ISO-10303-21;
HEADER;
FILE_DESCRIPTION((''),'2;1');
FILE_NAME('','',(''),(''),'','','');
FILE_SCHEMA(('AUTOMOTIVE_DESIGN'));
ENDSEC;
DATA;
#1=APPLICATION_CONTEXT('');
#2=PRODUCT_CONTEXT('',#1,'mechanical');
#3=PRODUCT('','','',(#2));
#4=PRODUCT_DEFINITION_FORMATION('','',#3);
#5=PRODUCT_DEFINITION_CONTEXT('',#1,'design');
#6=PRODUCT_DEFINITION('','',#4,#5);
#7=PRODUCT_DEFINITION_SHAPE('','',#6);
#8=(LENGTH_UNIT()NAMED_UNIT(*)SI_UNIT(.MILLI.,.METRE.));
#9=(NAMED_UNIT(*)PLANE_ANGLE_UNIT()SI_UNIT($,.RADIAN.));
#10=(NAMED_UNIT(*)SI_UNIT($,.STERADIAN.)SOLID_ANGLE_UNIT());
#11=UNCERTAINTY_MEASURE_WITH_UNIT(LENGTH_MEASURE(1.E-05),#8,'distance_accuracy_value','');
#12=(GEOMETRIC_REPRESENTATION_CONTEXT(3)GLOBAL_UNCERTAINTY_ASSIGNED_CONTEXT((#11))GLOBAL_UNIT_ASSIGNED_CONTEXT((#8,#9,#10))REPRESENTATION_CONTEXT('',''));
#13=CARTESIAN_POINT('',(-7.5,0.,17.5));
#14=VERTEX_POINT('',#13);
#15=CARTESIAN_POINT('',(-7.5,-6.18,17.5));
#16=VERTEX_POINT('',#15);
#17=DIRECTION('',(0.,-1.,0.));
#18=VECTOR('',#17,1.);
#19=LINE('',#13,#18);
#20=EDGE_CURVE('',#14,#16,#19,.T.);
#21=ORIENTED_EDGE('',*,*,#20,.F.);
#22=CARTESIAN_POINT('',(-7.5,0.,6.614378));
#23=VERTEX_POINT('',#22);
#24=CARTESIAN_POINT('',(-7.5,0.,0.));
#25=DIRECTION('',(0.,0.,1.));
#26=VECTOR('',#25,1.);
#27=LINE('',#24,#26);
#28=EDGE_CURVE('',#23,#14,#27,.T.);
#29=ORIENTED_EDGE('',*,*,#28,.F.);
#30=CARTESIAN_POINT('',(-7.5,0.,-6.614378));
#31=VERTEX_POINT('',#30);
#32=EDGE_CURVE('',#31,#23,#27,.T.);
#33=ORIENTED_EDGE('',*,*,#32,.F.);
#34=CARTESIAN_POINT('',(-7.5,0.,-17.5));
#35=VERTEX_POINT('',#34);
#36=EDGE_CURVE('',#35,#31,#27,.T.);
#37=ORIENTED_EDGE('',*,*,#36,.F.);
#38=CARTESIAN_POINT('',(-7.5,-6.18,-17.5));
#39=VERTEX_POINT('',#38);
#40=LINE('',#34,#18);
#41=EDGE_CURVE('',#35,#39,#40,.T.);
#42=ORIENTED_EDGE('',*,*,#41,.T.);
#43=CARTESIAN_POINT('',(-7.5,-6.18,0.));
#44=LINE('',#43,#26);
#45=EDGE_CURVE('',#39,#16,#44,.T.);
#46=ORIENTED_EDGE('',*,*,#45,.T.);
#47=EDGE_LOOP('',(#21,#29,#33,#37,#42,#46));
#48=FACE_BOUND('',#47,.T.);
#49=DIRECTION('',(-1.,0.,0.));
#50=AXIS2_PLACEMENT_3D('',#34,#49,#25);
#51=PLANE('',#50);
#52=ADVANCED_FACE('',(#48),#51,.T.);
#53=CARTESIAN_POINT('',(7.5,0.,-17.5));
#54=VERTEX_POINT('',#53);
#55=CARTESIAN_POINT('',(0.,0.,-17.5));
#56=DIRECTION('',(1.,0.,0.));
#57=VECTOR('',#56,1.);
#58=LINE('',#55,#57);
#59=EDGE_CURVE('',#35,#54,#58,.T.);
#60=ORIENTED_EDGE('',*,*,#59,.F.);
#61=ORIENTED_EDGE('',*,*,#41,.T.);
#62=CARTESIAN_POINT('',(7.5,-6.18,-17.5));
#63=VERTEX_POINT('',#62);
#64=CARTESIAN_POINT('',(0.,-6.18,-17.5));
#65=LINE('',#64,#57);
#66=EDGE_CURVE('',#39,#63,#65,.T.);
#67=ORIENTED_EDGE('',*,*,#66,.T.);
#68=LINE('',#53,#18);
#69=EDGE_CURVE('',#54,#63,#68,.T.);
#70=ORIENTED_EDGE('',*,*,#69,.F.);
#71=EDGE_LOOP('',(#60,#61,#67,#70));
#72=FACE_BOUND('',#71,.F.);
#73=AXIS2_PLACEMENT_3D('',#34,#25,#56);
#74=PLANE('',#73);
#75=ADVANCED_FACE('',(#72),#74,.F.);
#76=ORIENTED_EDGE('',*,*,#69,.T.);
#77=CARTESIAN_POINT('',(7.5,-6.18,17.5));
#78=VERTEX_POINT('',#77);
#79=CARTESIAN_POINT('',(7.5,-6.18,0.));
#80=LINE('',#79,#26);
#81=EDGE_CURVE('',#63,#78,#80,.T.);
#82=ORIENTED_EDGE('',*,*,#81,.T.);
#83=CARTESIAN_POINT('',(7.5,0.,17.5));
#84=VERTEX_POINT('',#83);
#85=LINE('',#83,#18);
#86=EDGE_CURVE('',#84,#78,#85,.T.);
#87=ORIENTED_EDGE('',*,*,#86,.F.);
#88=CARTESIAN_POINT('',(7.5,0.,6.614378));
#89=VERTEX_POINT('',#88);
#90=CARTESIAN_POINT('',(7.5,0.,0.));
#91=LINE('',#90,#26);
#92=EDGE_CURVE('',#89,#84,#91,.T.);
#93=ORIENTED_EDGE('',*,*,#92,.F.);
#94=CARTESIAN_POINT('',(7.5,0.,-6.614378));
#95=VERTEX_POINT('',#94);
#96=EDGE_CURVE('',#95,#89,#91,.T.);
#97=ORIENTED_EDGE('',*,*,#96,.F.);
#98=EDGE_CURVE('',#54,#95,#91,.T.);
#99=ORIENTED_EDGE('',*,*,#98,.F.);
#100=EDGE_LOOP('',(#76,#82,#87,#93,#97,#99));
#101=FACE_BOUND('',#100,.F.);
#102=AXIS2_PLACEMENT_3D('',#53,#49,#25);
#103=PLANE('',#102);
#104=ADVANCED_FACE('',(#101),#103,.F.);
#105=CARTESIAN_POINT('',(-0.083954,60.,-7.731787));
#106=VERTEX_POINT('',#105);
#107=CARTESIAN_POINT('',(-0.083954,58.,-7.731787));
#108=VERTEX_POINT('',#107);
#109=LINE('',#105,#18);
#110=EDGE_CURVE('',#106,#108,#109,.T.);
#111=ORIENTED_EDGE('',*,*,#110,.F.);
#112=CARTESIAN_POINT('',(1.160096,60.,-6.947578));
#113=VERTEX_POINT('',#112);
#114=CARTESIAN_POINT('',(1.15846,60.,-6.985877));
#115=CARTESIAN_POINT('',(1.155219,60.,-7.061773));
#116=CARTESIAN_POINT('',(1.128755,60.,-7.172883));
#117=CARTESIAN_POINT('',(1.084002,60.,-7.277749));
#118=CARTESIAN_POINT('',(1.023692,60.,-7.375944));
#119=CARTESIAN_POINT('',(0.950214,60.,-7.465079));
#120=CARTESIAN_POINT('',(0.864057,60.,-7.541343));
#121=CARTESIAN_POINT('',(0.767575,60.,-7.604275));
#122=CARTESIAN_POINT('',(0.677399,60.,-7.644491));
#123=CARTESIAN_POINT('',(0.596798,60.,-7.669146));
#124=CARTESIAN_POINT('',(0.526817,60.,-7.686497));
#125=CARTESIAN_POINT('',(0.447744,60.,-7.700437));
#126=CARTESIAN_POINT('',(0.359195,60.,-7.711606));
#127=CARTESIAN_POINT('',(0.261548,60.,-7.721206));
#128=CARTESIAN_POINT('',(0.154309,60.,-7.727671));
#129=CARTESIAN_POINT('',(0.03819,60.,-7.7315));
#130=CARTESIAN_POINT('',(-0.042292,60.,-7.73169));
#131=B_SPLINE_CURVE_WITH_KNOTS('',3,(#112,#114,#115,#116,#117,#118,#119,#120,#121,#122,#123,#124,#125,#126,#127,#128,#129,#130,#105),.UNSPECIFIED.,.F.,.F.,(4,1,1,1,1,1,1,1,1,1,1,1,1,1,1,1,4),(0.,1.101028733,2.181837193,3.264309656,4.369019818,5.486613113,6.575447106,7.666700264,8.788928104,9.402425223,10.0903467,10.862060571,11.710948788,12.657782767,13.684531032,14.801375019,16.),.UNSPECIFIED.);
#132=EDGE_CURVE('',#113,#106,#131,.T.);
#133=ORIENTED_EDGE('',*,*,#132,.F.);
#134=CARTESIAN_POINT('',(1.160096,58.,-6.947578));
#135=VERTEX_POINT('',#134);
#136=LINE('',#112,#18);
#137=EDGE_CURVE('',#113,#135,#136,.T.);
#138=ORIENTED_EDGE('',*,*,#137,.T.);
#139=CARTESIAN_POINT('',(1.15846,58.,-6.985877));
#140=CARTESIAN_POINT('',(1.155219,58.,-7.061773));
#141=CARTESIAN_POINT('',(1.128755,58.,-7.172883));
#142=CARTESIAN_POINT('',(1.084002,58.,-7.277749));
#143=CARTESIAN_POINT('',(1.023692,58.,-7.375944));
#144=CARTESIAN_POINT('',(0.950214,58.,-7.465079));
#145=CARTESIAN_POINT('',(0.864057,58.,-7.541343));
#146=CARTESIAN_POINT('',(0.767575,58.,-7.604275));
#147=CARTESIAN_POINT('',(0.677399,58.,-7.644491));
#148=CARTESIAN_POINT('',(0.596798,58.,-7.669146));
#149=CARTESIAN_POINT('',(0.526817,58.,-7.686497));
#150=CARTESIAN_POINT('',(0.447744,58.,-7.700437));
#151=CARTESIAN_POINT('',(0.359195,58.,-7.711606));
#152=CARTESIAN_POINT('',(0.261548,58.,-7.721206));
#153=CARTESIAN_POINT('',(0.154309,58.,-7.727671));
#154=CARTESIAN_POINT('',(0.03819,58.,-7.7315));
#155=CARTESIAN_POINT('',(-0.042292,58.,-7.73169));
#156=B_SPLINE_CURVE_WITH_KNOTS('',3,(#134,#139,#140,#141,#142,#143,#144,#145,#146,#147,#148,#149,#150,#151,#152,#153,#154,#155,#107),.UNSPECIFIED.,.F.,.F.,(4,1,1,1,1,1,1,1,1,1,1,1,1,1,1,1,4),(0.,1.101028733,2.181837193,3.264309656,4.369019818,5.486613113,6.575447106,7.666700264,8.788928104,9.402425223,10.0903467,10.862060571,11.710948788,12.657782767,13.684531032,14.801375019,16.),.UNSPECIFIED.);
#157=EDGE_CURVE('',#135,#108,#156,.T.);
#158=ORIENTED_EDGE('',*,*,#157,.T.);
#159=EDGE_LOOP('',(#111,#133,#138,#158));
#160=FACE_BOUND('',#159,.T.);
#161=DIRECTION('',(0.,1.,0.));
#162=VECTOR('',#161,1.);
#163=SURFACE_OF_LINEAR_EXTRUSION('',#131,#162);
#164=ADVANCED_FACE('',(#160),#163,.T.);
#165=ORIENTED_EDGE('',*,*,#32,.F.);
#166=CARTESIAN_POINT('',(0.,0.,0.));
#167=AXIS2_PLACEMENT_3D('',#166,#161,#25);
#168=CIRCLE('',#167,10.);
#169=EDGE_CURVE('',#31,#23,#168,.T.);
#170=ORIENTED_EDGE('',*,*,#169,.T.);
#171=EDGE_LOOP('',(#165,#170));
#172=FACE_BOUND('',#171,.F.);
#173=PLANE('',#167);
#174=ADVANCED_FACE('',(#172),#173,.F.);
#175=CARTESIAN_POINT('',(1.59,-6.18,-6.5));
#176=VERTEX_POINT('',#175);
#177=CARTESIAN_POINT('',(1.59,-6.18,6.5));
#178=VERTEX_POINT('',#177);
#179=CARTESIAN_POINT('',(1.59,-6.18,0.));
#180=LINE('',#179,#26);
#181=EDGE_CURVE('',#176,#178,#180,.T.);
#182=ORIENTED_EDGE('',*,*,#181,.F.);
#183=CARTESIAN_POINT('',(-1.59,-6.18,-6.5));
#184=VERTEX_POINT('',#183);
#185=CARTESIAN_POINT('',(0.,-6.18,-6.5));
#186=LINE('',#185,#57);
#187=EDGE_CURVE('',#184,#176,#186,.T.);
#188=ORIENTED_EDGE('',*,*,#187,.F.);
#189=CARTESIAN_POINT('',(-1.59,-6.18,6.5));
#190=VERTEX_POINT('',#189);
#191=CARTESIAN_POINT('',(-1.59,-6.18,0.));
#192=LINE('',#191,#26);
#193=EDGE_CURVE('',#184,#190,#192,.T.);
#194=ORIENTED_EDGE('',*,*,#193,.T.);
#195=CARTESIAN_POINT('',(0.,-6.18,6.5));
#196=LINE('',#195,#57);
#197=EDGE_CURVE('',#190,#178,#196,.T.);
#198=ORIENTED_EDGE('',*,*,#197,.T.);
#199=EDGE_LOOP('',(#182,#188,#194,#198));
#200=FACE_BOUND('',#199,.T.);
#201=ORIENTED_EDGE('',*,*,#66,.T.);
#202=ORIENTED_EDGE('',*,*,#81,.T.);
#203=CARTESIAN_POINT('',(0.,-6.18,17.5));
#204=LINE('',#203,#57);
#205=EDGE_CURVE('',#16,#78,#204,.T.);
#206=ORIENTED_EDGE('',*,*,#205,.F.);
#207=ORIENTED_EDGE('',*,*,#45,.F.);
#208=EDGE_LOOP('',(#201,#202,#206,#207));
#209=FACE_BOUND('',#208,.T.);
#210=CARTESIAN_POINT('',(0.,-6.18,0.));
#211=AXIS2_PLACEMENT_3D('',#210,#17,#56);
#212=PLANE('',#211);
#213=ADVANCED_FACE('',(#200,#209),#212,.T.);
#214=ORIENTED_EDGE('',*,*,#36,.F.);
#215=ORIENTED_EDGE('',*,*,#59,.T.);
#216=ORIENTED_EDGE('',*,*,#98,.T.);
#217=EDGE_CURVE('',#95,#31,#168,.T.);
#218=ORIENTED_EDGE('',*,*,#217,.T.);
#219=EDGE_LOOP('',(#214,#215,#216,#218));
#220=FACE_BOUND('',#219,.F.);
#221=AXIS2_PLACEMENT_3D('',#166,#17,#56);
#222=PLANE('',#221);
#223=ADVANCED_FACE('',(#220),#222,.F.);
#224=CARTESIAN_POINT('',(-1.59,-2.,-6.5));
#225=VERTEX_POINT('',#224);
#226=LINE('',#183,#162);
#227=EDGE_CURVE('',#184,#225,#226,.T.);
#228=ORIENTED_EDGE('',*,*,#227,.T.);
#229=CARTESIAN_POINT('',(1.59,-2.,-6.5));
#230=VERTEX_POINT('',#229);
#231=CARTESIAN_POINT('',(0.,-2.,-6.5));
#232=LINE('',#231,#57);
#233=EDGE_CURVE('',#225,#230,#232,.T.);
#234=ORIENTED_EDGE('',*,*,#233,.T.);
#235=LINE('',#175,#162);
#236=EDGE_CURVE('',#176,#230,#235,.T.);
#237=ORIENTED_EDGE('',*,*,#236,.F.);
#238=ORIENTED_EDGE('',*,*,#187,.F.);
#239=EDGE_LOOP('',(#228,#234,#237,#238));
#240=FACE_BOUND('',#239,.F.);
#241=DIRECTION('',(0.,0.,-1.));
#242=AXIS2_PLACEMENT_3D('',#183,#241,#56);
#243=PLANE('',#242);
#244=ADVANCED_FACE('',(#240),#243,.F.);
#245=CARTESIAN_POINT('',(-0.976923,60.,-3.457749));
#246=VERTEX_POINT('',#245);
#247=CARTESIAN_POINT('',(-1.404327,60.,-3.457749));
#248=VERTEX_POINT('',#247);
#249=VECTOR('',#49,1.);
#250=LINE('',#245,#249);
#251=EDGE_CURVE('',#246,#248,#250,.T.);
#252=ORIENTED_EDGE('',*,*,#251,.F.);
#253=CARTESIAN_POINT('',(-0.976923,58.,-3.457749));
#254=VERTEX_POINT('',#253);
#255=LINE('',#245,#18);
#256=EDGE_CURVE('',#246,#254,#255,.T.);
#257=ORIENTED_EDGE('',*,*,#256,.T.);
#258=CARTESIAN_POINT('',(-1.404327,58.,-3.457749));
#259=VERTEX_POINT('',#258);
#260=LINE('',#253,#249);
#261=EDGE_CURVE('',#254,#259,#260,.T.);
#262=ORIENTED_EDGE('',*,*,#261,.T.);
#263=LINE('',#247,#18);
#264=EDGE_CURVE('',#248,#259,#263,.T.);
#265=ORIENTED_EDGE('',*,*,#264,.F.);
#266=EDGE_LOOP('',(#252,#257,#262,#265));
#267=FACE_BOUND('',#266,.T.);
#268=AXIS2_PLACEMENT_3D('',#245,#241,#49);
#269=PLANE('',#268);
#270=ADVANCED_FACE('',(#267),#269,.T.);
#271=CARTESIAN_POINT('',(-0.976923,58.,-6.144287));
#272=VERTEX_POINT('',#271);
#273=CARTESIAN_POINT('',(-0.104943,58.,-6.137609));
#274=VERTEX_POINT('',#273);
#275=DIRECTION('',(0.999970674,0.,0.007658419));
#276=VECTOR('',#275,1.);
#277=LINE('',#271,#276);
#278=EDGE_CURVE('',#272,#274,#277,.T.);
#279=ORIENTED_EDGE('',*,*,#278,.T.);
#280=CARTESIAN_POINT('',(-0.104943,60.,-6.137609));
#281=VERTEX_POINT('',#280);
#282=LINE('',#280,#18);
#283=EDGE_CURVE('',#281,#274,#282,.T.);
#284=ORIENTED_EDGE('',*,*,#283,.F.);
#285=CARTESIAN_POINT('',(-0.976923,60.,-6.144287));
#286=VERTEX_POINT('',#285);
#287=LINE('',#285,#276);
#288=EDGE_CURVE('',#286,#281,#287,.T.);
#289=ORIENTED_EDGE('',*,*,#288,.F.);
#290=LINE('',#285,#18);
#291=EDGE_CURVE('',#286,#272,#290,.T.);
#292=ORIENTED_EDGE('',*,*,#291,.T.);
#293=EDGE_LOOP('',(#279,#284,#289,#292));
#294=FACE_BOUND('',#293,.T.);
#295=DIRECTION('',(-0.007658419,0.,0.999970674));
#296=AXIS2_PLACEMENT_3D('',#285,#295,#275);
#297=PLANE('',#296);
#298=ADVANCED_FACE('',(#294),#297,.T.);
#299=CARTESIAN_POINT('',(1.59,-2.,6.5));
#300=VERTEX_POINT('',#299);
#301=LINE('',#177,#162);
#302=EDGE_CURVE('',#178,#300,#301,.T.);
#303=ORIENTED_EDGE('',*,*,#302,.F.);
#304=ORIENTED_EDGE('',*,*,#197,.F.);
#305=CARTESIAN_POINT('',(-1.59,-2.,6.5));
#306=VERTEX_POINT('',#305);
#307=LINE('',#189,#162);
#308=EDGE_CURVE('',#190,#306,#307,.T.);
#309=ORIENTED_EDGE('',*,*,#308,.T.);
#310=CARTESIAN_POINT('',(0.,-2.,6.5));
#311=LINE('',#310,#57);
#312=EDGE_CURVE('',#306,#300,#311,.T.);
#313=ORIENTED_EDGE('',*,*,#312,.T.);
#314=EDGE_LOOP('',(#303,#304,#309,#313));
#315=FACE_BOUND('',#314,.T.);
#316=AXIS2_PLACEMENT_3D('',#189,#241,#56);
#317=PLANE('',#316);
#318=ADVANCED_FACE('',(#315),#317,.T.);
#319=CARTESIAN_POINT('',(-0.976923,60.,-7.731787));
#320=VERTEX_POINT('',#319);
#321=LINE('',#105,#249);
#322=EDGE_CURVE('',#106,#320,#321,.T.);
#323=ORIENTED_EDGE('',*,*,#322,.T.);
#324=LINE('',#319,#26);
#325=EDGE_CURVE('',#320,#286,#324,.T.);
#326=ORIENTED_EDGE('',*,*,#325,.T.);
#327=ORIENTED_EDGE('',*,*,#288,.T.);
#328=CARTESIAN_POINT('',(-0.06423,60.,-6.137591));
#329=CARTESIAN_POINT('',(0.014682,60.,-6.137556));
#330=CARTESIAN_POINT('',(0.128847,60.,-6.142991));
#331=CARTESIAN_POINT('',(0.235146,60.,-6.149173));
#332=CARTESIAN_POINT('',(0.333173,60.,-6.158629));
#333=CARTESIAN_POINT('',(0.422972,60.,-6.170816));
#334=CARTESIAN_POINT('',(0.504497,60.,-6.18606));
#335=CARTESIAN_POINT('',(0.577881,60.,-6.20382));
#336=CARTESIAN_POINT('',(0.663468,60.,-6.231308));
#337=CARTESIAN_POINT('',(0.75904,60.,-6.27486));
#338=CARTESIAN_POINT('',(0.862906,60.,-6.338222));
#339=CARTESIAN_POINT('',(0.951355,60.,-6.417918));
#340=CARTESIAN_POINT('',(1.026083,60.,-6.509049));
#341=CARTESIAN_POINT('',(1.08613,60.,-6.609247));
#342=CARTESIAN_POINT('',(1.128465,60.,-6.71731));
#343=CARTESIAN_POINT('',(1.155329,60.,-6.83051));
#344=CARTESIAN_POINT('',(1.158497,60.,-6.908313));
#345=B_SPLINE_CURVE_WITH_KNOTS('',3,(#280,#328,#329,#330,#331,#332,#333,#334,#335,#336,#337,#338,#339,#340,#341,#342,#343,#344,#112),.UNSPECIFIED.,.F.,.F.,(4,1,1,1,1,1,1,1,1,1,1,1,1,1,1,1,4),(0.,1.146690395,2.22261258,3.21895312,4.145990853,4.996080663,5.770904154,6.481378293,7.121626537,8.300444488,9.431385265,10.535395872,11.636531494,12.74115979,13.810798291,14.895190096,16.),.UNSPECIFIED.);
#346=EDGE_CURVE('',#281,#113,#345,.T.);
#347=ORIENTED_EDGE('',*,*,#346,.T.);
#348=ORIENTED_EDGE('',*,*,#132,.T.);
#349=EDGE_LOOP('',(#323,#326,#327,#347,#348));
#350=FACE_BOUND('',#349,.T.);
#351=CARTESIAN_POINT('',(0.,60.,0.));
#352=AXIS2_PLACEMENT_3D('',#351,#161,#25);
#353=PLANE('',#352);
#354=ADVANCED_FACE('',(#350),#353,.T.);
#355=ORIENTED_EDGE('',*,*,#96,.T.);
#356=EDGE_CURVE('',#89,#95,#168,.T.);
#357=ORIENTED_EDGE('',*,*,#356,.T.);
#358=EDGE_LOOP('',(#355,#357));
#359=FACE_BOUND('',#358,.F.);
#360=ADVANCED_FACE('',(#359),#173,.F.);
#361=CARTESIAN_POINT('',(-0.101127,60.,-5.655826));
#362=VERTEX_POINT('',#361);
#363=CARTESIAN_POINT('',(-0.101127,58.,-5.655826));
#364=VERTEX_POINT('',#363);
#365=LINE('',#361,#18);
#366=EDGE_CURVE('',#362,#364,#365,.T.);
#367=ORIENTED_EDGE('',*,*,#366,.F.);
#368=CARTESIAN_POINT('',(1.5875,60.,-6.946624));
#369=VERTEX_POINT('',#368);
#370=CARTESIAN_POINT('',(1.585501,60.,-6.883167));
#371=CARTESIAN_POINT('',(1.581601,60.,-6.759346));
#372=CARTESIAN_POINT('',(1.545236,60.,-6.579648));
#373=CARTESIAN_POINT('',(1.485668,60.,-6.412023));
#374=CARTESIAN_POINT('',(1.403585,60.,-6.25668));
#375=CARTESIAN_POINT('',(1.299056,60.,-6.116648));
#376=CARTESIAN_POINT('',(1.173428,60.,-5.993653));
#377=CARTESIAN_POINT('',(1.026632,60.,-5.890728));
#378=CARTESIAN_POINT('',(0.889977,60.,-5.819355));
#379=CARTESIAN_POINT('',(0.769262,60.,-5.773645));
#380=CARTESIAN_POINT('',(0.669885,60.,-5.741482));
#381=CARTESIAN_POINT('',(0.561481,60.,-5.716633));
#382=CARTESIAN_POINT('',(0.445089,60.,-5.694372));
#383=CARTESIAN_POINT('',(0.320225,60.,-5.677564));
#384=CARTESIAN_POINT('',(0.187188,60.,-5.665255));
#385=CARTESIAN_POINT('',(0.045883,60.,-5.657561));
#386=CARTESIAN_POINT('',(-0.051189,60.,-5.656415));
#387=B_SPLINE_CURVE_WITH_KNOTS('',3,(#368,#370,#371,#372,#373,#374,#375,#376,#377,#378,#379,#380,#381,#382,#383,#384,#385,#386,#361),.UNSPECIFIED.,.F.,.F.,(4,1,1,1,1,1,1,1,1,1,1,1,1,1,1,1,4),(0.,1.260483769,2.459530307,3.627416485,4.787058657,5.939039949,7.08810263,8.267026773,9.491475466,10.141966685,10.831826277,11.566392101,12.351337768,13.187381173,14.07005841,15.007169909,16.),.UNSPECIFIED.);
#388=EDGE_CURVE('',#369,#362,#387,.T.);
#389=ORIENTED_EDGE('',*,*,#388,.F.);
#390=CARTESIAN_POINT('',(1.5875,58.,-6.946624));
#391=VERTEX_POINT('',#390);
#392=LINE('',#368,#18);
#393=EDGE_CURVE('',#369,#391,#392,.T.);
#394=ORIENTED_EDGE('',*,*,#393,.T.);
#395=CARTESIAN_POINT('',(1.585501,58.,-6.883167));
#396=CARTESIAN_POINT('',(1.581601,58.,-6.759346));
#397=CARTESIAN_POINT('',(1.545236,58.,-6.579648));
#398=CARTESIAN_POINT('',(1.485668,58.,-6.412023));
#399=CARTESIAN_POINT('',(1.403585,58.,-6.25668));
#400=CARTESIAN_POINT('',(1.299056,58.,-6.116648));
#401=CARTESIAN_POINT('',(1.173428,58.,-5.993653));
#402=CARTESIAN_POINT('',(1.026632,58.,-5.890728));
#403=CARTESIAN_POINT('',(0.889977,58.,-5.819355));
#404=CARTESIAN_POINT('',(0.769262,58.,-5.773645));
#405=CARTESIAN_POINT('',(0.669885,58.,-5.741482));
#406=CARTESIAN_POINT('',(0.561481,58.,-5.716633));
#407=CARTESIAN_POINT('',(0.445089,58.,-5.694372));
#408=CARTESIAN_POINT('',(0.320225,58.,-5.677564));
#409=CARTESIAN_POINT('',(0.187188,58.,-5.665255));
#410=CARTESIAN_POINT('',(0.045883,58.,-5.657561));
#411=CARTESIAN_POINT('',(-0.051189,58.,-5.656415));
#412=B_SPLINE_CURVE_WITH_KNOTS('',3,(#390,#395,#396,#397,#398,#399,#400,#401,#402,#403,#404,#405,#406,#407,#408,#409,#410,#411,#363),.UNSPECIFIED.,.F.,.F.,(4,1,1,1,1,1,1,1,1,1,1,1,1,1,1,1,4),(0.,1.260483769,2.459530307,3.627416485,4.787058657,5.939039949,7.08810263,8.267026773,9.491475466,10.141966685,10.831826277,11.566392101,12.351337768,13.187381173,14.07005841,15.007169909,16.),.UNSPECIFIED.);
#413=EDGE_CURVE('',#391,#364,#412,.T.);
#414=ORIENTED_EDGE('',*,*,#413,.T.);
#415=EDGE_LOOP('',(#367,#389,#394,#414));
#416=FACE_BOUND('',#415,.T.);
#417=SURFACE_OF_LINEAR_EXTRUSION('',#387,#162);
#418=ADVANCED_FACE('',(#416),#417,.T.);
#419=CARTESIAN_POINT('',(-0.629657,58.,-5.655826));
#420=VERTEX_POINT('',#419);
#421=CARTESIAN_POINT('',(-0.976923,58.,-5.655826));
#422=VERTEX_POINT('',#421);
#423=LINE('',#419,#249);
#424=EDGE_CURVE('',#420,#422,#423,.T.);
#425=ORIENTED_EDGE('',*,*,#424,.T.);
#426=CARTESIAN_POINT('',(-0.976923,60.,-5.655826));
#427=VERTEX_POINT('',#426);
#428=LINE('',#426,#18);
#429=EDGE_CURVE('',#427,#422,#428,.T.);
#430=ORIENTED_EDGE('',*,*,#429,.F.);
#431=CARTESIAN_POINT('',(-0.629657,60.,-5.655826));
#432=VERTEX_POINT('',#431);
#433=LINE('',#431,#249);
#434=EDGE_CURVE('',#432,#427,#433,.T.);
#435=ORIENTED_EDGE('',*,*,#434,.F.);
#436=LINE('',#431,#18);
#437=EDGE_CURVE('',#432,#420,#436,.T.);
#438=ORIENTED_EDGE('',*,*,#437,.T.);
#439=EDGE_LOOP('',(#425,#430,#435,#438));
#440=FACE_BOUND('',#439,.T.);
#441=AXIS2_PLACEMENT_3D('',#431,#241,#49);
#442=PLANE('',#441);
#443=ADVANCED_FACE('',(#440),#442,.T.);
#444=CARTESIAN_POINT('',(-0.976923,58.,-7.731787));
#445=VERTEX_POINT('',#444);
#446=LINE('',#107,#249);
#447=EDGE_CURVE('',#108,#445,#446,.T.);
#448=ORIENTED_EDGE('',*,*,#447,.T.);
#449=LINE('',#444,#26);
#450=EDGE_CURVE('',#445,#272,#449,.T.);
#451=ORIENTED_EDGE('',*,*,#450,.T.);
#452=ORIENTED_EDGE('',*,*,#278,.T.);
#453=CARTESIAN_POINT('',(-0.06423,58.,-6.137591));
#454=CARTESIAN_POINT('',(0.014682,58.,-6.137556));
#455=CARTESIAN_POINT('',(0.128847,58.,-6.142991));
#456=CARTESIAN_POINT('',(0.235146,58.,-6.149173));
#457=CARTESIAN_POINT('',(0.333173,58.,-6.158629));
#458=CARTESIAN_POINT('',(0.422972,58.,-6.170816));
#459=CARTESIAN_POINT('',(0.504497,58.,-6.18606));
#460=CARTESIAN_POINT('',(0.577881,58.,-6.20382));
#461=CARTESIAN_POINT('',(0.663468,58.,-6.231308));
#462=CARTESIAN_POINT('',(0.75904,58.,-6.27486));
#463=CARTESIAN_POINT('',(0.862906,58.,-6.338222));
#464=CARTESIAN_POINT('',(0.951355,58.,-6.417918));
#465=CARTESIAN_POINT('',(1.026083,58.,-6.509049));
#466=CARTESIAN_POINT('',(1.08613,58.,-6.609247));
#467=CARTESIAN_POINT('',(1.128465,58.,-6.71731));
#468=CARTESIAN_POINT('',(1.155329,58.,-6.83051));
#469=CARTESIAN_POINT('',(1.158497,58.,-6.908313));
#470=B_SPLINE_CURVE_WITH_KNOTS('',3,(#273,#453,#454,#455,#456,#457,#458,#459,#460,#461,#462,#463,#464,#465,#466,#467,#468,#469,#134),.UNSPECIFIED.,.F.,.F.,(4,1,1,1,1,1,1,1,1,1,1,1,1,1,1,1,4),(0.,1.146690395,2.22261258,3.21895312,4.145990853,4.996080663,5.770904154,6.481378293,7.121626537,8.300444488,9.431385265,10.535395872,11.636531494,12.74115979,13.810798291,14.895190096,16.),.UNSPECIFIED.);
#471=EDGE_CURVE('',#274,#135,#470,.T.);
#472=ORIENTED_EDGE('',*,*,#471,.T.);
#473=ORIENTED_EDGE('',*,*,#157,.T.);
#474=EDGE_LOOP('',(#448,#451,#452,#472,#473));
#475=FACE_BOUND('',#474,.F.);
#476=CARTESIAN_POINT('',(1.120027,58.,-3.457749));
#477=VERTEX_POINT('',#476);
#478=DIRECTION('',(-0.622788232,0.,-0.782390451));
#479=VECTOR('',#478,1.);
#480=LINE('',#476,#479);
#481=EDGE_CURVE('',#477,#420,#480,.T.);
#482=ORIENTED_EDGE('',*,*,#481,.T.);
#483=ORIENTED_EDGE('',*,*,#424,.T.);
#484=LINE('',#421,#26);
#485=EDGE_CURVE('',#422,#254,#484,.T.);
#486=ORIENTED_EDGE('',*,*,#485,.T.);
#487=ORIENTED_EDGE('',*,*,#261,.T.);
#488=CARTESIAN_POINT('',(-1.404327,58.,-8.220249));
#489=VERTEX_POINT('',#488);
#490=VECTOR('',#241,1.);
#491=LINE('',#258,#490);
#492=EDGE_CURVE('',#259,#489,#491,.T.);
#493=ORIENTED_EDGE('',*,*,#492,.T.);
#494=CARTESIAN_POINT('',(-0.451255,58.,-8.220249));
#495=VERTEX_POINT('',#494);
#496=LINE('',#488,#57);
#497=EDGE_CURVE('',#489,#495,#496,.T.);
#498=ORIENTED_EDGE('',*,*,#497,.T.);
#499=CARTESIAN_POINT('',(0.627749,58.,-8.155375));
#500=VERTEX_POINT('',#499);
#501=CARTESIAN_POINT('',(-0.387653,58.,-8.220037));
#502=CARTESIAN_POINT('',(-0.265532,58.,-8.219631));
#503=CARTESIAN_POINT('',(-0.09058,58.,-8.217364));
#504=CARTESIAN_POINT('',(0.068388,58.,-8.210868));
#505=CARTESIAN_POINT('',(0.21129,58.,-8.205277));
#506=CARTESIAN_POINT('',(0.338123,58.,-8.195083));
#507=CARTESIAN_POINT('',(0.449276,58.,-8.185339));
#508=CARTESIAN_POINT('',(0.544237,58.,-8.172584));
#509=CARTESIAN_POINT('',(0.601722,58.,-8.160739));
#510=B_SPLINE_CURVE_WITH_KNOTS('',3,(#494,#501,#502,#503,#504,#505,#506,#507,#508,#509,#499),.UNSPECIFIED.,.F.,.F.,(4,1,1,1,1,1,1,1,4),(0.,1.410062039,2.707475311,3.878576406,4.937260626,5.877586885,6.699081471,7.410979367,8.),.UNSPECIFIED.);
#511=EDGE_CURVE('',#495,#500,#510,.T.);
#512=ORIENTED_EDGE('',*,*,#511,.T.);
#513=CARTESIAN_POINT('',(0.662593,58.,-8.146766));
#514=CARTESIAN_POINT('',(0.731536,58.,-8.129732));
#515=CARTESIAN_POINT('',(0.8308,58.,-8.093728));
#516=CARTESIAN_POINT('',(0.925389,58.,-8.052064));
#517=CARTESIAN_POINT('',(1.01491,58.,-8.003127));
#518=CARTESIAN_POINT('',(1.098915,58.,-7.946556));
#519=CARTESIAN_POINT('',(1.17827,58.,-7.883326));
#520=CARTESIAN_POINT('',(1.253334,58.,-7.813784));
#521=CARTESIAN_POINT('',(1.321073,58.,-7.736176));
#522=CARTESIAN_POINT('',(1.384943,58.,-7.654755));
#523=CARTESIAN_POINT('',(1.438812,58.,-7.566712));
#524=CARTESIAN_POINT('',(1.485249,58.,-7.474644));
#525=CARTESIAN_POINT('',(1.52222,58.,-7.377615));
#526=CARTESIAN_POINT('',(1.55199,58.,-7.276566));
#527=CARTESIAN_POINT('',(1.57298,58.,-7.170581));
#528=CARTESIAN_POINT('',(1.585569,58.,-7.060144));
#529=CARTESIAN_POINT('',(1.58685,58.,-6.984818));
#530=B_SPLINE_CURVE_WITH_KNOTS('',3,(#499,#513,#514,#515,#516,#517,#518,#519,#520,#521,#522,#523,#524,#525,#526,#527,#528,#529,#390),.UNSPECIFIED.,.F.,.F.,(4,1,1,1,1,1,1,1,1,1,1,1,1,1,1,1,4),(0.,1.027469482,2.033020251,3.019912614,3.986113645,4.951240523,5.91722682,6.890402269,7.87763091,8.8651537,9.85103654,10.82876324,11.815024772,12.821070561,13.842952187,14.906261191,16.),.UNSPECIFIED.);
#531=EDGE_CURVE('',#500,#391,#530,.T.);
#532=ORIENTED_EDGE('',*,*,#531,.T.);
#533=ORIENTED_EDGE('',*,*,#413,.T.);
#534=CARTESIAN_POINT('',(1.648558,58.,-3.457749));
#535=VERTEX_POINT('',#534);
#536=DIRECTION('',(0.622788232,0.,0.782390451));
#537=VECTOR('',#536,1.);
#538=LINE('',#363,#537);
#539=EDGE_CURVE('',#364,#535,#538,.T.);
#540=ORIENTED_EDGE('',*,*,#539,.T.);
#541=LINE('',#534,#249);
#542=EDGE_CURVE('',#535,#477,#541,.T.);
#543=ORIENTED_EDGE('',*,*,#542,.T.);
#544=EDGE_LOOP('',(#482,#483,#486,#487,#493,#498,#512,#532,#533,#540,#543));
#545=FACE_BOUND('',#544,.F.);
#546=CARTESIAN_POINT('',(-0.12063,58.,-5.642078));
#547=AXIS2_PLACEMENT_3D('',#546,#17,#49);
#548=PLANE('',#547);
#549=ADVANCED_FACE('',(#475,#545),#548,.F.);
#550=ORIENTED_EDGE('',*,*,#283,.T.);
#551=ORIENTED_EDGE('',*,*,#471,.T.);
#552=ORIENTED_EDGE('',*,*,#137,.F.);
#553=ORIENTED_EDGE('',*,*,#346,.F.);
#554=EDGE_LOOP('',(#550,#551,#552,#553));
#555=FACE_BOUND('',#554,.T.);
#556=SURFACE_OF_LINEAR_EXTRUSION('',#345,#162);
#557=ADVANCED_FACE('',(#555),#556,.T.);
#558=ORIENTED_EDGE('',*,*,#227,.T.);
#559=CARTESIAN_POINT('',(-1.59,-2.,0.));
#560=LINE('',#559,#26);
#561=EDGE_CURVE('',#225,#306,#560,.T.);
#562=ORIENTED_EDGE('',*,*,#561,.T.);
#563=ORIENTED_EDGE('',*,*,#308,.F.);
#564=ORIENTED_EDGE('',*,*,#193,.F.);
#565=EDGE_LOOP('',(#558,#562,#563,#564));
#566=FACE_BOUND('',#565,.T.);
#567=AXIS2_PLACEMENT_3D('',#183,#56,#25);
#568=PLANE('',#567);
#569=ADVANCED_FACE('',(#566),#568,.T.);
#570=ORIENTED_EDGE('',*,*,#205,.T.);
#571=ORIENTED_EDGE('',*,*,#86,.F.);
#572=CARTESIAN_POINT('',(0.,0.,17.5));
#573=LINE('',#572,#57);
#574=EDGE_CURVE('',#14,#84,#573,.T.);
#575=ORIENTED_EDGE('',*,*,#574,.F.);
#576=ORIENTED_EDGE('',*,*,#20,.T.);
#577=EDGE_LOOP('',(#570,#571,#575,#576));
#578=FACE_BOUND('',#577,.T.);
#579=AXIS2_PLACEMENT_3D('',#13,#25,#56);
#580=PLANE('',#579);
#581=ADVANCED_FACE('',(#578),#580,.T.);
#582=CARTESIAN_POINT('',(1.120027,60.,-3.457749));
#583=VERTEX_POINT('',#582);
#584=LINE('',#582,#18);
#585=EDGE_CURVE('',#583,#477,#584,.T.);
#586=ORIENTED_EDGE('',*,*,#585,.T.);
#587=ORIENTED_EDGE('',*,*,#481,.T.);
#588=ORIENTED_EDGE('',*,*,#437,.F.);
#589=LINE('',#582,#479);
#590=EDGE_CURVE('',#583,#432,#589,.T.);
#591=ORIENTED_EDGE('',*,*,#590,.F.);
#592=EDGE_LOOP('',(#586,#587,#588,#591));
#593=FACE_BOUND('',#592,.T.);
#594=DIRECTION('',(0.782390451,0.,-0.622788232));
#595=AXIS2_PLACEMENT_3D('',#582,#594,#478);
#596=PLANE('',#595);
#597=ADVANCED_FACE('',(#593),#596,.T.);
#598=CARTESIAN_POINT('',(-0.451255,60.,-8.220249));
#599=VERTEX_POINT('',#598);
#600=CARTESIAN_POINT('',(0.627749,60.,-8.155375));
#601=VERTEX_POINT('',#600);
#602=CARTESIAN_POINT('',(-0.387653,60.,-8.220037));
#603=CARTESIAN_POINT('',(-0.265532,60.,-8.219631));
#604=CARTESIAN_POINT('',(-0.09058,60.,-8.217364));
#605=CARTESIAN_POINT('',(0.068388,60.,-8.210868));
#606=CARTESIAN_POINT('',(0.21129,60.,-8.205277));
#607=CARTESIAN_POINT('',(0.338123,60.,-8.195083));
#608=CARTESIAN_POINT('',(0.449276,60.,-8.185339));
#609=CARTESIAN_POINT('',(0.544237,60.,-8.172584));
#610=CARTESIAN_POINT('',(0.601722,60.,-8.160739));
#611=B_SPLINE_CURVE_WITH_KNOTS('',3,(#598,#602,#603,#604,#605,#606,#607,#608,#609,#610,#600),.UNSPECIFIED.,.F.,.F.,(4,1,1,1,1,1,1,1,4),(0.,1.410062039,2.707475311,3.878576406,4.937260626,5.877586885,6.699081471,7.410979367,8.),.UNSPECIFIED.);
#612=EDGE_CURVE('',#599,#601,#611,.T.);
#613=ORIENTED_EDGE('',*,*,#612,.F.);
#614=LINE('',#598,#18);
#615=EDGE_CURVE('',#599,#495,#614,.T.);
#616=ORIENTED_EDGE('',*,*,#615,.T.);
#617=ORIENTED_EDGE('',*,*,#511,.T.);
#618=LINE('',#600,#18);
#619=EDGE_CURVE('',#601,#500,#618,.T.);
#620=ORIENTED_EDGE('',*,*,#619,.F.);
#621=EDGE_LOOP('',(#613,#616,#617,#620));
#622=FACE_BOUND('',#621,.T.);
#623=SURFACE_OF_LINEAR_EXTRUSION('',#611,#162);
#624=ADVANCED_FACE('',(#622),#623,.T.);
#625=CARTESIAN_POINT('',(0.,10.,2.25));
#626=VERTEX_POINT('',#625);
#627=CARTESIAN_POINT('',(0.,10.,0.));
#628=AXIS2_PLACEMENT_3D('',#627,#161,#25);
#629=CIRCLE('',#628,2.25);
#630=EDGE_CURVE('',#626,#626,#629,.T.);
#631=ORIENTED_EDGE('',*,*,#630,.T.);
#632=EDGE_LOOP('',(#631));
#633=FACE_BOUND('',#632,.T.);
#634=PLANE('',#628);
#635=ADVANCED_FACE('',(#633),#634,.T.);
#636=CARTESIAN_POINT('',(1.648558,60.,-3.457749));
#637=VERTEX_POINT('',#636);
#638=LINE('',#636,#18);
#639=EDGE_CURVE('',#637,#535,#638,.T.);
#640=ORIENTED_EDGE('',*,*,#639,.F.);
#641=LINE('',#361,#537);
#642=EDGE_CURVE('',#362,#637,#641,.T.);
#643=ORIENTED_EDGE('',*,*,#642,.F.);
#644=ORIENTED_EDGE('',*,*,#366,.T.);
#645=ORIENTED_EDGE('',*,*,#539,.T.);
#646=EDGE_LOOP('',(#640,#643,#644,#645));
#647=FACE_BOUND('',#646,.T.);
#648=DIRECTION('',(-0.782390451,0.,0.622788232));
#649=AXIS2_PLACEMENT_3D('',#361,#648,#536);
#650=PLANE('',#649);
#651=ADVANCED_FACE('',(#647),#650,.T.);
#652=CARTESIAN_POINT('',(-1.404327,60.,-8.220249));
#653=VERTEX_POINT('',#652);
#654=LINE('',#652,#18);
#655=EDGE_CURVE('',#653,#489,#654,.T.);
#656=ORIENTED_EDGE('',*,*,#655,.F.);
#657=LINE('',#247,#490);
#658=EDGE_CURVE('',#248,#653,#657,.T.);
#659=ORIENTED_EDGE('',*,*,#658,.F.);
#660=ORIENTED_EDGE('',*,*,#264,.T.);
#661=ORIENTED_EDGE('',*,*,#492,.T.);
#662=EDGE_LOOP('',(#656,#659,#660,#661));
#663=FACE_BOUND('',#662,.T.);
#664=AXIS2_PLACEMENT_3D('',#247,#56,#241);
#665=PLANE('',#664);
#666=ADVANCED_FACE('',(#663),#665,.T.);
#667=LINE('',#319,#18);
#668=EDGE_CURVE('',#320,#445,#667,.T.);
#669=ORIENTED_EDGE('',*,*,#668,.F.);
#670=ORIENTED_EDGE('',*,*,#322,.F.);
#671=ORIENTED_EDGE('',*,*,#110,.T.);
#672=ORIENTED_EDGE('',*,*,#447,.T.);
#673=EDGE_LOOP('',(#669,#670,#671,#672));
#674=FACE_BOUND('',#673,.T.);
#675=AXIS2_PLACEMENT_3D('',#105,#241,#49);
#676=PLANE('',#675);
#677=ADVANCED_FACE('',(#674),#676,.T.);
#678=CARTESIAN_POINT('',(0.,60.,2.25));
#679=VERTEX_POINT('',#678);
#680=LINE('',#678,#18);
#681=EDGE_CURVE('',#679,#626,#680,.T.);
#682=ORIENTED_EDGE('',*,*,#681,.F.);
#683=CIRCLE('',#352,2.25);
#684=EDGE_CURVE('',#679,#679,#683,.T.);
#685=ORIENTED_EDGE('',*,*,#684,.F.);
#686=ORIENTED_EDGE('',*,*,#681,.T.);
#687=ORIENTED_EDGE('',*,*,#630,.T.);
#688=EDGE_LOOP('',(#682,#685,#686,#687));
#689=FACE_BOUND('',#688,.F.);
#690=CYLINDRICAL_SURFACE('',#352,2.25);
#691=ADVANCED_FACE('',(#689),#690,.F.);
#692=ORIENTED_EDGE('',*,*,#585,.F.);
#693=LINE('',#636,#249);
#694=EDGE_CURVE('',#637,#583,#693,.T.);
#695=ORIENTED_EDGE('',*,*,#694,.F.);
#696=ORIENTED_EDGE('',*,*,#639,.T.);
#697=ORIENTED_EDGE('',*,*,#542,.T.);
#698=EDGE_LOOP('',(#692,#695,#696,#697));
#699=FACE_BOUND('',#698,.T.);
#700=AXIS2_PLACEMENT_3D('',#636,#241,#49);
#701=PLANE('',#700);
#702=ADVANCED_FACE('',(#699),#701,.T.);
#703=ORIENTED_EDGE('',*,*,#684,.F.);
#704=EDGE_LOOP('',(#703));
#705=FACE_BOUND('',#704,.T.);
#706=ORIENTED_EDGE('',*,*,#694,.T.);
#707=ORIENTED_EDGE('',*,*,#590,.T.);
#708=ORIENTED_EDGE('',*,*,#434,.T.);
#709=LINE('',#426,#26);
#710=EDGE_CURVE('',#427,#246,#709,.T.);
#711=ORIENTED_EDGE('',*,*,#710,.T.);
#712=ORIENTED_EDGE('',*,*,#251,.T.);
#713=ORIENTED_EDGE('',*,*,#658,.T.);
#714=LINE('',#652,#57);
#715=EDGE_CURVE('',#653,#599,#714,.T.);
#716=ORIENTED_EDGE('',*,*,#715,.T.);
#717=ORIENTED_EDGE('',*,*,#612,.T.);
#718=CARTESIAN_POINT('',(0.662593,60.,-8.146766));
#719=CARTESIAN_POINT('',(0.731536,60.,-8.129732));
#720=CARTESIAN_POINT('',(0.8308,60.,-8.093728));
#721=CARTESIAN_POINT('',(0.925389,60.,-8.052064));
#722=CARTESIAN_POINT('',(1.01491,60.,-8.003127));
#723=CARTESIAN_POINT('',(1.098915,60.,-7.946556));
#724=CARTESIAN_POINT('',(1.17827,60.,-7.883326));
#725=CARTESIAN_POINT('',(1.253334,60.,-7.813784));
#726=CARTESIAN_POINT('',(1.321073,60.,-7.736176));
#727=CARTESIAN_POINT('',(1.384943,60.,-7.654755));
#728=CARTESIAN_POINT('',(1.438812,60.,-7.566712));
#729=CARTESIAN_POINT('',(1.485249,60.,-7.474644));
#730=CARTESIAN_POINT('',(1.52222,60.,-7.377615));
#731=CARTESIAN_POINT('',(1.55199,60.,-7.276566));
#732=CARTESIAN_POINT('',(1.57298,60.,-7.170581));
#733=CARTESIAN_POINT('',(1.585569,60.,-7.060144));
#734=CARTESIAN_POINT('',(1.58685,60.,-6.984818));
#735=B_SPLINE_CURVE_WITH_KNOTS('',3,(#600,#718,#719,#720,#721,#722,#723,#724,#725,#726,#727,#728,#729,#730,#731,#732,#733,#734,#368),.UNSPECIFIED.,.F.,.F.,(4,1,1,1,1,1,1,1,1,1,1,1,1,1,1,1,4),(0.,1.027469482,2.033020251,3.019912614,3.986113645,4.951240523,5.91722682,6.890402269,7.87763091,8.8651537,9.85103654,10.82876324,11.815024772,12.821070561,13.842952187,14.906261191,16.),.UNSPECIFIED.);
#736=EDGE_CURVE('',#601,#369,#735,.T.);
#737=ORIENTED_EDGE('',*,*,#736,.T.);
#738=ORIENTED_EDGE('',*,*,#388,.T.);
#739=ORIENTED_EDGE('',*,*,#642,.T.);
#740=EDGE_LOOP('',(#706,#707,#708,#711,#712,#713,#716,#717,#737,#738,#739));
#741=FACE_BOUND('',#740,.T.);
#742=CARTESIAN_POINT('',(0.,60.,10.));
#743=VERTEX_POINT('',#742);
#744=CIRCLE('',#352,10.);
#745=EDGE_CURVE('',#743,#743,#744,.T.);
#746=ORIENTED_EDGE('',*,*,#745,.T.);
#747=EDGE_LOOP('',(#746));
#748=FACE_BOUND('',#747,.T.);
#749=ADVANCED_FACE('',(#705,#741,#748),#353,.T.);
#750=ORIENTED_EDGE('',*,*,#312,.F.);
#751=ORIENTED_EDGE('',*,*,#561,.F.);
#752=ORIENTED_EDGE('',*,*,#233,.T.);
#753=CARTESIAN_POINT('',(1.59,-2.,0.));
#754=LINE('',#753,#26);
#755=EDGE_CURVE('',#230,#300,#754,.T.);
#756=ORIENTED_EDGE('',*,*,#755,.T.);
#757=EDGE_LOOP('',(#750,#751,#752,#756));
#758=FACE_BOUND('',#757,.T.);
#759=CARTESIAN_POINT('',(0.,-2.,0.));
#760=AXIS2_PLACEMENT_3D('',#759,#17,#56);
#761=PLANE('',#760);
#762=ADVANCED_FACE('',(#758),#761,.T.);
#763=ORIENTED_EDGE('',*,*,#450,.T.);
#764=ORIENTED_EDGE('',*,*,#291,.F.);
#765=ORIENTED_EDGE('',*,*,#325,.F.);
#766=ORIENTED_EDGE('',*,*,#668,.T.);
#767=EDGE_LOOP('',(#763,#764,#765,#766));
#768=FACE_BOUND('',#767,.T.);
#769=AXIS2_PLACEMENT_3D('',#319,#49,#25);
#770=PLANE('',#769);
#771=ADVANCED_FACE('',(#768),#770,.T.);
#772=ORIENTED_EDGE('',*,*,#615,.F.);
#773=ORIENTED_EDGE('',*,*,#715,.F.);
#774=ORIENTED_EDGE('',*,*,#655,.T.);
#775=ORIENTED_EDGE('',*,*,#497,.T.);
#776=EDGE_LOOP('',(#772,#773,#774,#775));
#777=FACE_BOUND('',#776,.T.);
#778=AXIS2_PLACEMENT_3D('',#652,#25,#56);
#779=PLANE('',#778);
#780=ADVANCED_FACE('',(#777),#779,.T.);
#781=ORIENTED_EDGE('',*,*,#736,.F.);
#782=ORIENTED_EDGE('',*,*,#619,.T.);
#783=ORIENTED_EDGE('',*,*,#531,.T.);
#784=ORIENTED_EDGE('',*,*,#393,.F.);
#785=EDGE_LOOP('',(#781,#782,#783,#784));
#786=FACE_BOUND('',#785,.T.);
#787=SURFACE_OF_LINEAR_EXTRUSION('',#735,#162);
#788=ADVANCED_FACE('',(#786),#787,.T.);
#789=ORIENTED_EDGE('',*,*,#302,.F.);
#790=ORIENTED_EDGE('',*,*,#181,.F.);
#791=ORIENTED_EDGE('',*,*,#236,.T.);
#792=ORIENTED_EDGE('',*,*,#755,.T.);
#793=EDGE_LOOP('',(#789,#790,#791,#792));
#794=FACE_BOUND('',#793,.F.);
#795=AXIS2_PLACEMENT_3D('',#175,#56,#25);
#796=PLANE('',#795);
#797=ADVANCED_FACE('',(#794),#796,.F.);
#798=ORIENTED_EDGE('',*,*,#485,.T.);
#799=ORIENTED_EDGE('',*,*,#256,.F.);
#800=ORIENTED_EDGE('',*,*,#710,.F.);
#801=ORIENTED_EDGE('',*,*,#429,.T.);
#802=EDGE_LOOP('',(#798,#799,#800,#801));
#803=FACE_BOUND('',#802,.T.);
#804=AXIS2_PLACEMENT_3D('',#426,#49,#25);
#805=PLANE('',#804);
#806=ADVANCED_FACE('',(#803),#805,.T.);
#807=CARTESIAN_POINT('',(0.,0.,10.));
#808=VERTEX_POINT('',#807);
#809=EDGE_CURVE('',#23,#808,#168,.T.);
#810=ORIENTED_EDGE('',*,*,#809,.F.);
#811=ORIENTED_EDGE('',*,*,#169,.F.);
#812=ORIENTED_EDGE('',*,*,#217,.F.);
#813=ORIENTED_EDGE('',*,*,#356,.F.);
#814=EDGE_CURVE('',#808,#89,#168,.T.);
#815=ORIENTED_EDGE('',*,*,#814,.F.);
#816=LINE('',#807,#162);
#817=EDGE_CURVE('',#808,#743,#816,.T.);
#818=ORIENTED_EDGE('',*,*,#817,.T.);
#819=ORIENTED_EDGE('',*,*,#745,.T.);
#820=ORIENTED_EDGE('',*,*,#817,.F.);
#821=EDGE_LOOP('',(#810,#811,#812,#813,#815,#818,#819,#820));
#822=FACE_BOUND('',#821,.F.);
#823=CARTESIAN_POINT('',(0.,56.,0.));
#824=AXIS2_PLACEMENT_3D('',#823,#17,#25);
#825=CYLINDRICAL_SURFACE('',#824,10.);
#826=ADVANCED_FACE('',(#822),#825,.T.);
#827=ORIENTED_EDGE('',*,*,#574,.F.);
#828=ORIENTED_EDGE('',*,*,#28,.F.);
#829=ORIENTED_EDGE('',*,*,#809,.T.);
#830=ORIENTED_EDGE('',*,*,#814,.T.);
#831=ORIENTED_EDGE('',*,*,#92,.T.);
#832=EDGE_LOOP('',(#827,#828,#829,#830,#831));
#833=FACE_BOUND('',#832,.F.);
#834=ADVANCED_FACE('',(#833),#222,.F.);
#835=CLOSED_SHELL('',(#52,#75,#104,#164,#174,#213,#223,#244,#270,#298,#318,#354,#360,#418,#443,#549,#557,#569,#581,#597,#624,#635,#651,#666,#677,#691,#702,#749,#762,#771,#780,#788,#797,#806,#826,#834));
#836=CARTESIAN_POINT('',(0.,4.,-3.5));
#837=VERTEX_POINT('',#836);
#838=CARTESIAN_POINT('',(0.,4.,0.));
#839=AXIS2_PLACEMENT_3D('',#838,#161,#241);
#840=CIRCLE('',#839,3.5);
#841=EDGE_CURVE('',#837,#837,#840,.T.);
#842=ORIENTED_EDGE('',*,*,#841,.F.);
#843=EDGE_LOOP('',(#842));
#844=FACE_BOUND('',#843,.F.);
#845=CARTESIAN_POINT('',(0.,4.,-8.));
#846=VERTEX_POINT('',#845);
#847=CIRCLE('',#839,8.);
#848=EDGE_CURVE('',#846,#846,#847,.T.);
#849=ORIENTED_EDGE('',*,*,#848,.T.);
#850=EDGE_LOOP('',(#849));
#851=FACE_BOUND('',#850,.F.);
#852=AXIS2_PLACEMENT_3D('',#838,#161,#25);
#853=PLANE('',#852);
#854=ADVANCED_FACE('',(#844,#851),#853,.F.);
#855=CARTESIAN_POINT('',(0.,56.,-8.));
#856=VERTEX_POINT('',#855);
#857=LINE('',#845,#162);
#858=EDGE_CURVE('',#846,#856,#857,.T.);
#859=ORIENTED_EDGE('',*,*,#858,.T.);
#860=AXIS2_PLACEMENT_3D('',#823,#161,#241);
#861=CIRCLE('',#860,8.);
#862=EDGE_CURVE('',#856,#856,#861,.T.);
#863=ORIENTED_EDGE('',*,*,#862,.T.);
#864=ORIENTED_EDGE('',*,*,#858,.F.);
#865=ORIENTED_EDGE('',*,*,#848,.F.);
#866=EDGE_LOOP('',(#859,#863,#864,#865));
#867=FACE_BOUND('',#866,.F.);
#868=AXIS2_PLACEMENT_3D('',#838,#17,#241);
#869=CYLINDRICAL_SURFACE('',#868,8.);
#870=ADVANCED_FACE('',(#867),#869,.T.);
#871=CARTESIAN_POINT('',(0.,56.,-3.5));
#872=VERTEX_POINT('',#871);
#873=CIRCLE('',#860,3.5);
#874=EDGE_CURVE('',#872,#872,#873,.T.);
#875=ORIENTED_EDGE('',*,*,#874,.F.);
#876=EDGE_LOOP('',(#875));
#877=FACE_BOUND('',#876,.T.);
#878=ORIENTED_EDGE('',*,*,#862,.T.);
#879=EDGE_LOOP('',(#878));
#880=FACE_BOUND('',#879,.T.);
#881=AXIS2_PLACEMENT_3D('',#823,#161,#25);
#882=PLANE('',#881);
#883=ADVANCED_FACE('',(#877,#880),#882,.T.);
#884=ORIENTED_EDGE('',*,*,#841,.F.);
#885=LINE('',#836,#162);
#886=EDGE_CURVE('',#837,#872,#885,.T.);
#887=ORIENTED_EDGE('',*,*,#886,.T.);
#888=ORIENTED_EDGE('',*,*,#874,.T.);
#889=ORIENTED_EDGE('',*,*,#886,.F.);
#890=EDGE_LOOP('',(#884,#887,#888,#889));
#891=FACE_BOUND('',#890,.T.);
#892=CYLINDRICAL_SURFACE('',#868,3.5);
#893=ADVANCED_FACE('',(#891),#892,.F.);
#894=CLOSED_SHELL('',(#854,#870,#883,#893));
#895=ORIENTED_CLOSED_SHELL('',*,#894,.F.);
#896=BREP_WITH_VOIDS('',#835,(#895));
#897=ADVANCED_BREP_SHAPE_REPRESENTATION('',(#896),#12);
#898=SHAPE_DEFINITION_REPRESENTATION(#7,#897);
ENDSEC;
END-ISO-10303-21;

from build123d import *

# Parameters (mm, degrees)
SKETCH1_R           = 10
BOSS_EXTRUDE1_DEPTH = 4
SKETCH2_R           = 10
SKETCH2_R_2         = 8
SKETCH2_R_3         = 3.5
BOSS_EXTRUDE2_DEPTH = 52
SKETCH3_R           = 10
BOSS_EXTRUDE3_DEPTH = 4
CUT_EXTRUDE1_DEPTH  = 2
SKETCH5_R           = 2.25
CUT_EXTRUDE2_DEPTH  = 50
SKETCH6_W           = 15
SKETCH6_H           = 35
BOSS_EXTRUDE4_DEPTH = 6.18
SKETCH7_W           = 3.18
SKETCH7_H           = 13
CUT_EXTRUDE3_DEPTH  = 4.18


with BuildPart() as part:
    # Sketch1 → Boss-Extrude1 (new body)
    with BuildSketch(Plane(origin=(0, 0, 0), x_dir=(1, 0, 0), z_dir=(0, 1, 0))):
        with Locations(Location((0, 0, 0), (0, 0, 270))):
            Circle(SKETCH1_R)
    extrude(amount=BOSS_EXTRUDE1_DEPTH)

    # Sketch2 → Boss-Extrude2 (add)
    # profile 1 of 2: a face of its own
    with BuildSketch(Plane(origin=(0, 4, 0), x_dir=(1, 0, 0), z_dir=(0, 1, 0))):
        with Locations(Location((0, 0, 0), (0, 0, 270))):
            Circle(SKETCH2_R)
        with Locations(Location((0, 0, 0), (0, 0, 90))):
            Circle(SKETCH2_R_2, mode=Mode.SUBTRACT)
    # profile 2 of 2: a face of its own
    with BuildSketch(Plane(origin=(0, 4, 0), x_dir=(1, 0, 0), z_dir=(0, 1, 0))):
        with Locations(Location((0, 0, 0), (0, 0, 90))):
            Circle(SKETCH2_R_3)
    extrude(amount=BOSS_EXTRUDE2_DEPTH)

    # Sketch3 → Boss-Extrude3 (add)
    with BuildSketch(Plane(origin=(0, 56, 0), x_dir=(1, 0, 0), z_dir=(0, 1, 0))):
        with Locations(Location((0, 0, 0), (0, 0, 270))):
            Circle(SKETCH3_R)
    extrude(amount=BOSS_EXTRUDE3_DEPTH)

    # Sketch4 → Cut-Extrude1 (cut)
    with BuildSketch(Plane(origin=(0, 60, 0), x_dir=(1, 0, 0), z_dir=(0, 1, 0))):
        with BuildLine():
            Line((-1.404326923, 8.220249015), (-0.451254507, 8.220249015))
            add(Edge.make_bspline(
                [(-0.451254507, 8.220249015), (-0.387653186, 8.220037307), (-0.265531604, 8.219630804), (-0.090580118, 8.217364176), (0.068388182, 8.210867642), (0.211290178, 8.205277034), (0.338123247, 8.195082643), (0.449276311, 8.185339048), (0.544237428, 8.172584174), (0.601721961, 8.16073858), (0.627749399, 8.155375217)],
                knots=[0, 0, 0, 0, 1.410062039, 2.707475311, 3.878576406, 4.937260626, 5.877586885, 6.699081471, 7.410979367, 8, 8, 8, 8], degree=3))
            add(Edge.make_bspline(
                [(0.627749399, 8.155375217), (0.662592698, 8.146766297), (0.731535995, 8.129732108), (0.830800192, 8.093728152), (0.925389325, 8.052063591), (1.014910479, 8.003127243), (1.098915252, 7.946555846), (1.178269811, 7.883326008), (1.253334245, 7.813783703), (1.32107282, 7.73617558), (1.384943458, 7.654755186), (1.438812268, 7.56671186), (1.485248657, 7.474643853), (1.522219967, 7.377614831), (1.551989638, 7.276565777), (1.572980343, 7.170581378), (1.585568566, 7.06014448), (1.586850162, 6.984818183), (1.5875, 6.946623714)],
                knots=[0, 0, 0, 0, 1.027469482, 2.033020251, 3.019912614, 3.986113645, 4.951240523, 5.91722682, 6.890402269, 7.87763091, 8.8651537, 9.85103654, 10.82876324, 11.815024772, 12.821070561, 13.842952187, 14.906261191, 16, 16, 16, 16], degree=3))
            add(Edge.make_bspline(
                [(1.5875, 6.946623714), (1.585501113, 6.883166661), (1.581600768, 6.759345515), (1.545235537, 6.579648387), (1.485668201, 6.412022927), (1.40358544, 6.256680195), (1.299056082, 6.116648209), (1.17342842, 5.993652625), (1.02663237, 5.890728316), (0.889976765, 5.819355035), (0.769262086, 5.773644684), (0.669884614, 5.741482353), (0.56148062, 5.716633036), (0.445088747, 5.694371571), (0.32022463, 5.677564444), (0.187187541, 5.665254614), (0.045882599, 5.657561069), (-0.051189492, 5.656415341), (-0.101126803, 5.655825938)],
                knots=[0, 0, 0, 0, 1.260483769, 2.459530307, 3.627416485, 4.787058657, 5.939039949, 7.08810263, 8.267026773, 9.491475466, 10.141966685, 10.831826277, 11.566392101, 12.351337768, 13.187381173, 14.07005841, 15.007169909, 16, 16, 16, 16], degree=3))
            Line((-0.101126803, 5.655825938), (1.648557692, 3.457749015))
            Line((1.648557692, 3.457749015), (1.120027043, 3.457749015))
            Line((1.120027043, 3.457749015), (-0.629657452, 5.655825938))
            Line((-0.629657452, 5.655825938), (-0.976923077, 5.655825938))
            Line((-0.976923077, 5.655825938), (-0.976923077, 3.457749015))
            Line((-0.976923077, 3.457749015), (-1.404326923, 3.457749015))
            Line((-1.404326923, 3.457749015), (-1.404326923, 8.220249015))
        make_face()
        with BuildLine():
            Line((-0.976923077, 7.731787476), (-0.976923077, 6.144287476))
            Line((-0.976923077, 6.144287476), (-0.104942909, 6.137609291))
            add(Edge.make_bspline(
                [(-0.104942909, 6.137609291), (-0.064230284, 6.13759128), (0.014682377, 6.137556369), (0.128847211, 6.142990757), (0.235146363, 6.149172915), (0.333173243, 6.158628989), (0.422971644, 6.170815644), (0.504496681, 6.186059705), (0.577881434, 6.203819833), (0.663468374, 6.231308474), (0.759040225, 6.27485952), (0.862905533, 6.338221859), (0.951355143, 6.417917696), (1.026082663, 6.509049435), (1.08613021, 6.60924733), (1.128464827, 6.717310318), (1.15532865, 6.830510314), (1.158497136, 6.908313383), (1.160096154, 6.947577741)],
                knots=[0, 0, 0, 0, 1.146690395, 2.22261258, 3.21895312, 4.145990853, 4.996080663, 5.770904154, 6.481378293, 7.121626537, 8.300444488, 9.431385265, 10.535395872, 11.636531494, 12.74115979, 13.810798291, 14.895190096, 16, 16, 16, 16], degree=3))
            add(Edge.make_bspline(
                [(1.160096154, 6.947577741), (1.158460411, 6.985877186), (1.155218964, 7.061772711), (1.128754747, 7.172883074), (1.084001696, 7.277749174), (1.023691794, 7.37594442), (0.950214372, 7.46507901), (0.86405692, 7.541343172), (0.767575208, 7.60427548), (0.677399041, 7.644490547), (0.596798202, 7.66914649), (0.526817129, 7.686497181), (0.447744011, 7.700436976), (0.359194905, 7.711605802), (0.261547829, 7.721205566), (0.15430905, 7.727671379), (0.038190074, 7.731500244), (-0.042292, 7.731689504), (-0.083954327, 7.731787476)],
                knots=[0, 0, 0, 0, 1.101028733, 2.181837193, 3.264309656, 4.369019818, 5.486613113, 6.575447106, 7.666700264, 8.788928104, 9.402425223, 10.0903467, 10.862060571, 11.710948788, 12.657782767, 13.684531032, 14.801375019, 16, 16, 16, 16], degree=3))
            Line((-0.083954327, 7.731787476), (-0.976923077, 7.731787476))
        make_face(mode=Mode.SUBTRACT)
    extrude(amount=-CUT_EXTRUDE1_DEPTH, mode=Mode.SUBTRACT)

    # Sketch5 → Cut-Extrude2 (cut)
    with BuildSketch(Plane(origin=(0, 60, 0), x_dir=(1, 0, 0), z_dir=(0, 1, 0))):
        with Locations(Location((0, 0, 0), (0, 0, 270))):
            Circle(SKETCH5_R)
    extrude(amount=-CUT_EXTRUDE2_DEPTH, mode=Mode.SUBTRACT)

    # Sketch6 → Boss-Extrude4 (add)
    with BuildSketch(Plane.XZ):
        Rectangle(SKETCH6_W, SKETCH6_H)
    extrude(amount=BOSS_EXTRUDE4_DEPTH)

    # Sketch7 → Cut-Extrude3 (cut)
    with BuildSketch(Plane.XZ.offset(6.18)):
        Rectangle(SKETCH7_W, SKETCH7_H)
    extrude(amount=-CUT_EXTRUDE3_DEPTH, mode=Mode.SUBTRACT)


solid = part.part
